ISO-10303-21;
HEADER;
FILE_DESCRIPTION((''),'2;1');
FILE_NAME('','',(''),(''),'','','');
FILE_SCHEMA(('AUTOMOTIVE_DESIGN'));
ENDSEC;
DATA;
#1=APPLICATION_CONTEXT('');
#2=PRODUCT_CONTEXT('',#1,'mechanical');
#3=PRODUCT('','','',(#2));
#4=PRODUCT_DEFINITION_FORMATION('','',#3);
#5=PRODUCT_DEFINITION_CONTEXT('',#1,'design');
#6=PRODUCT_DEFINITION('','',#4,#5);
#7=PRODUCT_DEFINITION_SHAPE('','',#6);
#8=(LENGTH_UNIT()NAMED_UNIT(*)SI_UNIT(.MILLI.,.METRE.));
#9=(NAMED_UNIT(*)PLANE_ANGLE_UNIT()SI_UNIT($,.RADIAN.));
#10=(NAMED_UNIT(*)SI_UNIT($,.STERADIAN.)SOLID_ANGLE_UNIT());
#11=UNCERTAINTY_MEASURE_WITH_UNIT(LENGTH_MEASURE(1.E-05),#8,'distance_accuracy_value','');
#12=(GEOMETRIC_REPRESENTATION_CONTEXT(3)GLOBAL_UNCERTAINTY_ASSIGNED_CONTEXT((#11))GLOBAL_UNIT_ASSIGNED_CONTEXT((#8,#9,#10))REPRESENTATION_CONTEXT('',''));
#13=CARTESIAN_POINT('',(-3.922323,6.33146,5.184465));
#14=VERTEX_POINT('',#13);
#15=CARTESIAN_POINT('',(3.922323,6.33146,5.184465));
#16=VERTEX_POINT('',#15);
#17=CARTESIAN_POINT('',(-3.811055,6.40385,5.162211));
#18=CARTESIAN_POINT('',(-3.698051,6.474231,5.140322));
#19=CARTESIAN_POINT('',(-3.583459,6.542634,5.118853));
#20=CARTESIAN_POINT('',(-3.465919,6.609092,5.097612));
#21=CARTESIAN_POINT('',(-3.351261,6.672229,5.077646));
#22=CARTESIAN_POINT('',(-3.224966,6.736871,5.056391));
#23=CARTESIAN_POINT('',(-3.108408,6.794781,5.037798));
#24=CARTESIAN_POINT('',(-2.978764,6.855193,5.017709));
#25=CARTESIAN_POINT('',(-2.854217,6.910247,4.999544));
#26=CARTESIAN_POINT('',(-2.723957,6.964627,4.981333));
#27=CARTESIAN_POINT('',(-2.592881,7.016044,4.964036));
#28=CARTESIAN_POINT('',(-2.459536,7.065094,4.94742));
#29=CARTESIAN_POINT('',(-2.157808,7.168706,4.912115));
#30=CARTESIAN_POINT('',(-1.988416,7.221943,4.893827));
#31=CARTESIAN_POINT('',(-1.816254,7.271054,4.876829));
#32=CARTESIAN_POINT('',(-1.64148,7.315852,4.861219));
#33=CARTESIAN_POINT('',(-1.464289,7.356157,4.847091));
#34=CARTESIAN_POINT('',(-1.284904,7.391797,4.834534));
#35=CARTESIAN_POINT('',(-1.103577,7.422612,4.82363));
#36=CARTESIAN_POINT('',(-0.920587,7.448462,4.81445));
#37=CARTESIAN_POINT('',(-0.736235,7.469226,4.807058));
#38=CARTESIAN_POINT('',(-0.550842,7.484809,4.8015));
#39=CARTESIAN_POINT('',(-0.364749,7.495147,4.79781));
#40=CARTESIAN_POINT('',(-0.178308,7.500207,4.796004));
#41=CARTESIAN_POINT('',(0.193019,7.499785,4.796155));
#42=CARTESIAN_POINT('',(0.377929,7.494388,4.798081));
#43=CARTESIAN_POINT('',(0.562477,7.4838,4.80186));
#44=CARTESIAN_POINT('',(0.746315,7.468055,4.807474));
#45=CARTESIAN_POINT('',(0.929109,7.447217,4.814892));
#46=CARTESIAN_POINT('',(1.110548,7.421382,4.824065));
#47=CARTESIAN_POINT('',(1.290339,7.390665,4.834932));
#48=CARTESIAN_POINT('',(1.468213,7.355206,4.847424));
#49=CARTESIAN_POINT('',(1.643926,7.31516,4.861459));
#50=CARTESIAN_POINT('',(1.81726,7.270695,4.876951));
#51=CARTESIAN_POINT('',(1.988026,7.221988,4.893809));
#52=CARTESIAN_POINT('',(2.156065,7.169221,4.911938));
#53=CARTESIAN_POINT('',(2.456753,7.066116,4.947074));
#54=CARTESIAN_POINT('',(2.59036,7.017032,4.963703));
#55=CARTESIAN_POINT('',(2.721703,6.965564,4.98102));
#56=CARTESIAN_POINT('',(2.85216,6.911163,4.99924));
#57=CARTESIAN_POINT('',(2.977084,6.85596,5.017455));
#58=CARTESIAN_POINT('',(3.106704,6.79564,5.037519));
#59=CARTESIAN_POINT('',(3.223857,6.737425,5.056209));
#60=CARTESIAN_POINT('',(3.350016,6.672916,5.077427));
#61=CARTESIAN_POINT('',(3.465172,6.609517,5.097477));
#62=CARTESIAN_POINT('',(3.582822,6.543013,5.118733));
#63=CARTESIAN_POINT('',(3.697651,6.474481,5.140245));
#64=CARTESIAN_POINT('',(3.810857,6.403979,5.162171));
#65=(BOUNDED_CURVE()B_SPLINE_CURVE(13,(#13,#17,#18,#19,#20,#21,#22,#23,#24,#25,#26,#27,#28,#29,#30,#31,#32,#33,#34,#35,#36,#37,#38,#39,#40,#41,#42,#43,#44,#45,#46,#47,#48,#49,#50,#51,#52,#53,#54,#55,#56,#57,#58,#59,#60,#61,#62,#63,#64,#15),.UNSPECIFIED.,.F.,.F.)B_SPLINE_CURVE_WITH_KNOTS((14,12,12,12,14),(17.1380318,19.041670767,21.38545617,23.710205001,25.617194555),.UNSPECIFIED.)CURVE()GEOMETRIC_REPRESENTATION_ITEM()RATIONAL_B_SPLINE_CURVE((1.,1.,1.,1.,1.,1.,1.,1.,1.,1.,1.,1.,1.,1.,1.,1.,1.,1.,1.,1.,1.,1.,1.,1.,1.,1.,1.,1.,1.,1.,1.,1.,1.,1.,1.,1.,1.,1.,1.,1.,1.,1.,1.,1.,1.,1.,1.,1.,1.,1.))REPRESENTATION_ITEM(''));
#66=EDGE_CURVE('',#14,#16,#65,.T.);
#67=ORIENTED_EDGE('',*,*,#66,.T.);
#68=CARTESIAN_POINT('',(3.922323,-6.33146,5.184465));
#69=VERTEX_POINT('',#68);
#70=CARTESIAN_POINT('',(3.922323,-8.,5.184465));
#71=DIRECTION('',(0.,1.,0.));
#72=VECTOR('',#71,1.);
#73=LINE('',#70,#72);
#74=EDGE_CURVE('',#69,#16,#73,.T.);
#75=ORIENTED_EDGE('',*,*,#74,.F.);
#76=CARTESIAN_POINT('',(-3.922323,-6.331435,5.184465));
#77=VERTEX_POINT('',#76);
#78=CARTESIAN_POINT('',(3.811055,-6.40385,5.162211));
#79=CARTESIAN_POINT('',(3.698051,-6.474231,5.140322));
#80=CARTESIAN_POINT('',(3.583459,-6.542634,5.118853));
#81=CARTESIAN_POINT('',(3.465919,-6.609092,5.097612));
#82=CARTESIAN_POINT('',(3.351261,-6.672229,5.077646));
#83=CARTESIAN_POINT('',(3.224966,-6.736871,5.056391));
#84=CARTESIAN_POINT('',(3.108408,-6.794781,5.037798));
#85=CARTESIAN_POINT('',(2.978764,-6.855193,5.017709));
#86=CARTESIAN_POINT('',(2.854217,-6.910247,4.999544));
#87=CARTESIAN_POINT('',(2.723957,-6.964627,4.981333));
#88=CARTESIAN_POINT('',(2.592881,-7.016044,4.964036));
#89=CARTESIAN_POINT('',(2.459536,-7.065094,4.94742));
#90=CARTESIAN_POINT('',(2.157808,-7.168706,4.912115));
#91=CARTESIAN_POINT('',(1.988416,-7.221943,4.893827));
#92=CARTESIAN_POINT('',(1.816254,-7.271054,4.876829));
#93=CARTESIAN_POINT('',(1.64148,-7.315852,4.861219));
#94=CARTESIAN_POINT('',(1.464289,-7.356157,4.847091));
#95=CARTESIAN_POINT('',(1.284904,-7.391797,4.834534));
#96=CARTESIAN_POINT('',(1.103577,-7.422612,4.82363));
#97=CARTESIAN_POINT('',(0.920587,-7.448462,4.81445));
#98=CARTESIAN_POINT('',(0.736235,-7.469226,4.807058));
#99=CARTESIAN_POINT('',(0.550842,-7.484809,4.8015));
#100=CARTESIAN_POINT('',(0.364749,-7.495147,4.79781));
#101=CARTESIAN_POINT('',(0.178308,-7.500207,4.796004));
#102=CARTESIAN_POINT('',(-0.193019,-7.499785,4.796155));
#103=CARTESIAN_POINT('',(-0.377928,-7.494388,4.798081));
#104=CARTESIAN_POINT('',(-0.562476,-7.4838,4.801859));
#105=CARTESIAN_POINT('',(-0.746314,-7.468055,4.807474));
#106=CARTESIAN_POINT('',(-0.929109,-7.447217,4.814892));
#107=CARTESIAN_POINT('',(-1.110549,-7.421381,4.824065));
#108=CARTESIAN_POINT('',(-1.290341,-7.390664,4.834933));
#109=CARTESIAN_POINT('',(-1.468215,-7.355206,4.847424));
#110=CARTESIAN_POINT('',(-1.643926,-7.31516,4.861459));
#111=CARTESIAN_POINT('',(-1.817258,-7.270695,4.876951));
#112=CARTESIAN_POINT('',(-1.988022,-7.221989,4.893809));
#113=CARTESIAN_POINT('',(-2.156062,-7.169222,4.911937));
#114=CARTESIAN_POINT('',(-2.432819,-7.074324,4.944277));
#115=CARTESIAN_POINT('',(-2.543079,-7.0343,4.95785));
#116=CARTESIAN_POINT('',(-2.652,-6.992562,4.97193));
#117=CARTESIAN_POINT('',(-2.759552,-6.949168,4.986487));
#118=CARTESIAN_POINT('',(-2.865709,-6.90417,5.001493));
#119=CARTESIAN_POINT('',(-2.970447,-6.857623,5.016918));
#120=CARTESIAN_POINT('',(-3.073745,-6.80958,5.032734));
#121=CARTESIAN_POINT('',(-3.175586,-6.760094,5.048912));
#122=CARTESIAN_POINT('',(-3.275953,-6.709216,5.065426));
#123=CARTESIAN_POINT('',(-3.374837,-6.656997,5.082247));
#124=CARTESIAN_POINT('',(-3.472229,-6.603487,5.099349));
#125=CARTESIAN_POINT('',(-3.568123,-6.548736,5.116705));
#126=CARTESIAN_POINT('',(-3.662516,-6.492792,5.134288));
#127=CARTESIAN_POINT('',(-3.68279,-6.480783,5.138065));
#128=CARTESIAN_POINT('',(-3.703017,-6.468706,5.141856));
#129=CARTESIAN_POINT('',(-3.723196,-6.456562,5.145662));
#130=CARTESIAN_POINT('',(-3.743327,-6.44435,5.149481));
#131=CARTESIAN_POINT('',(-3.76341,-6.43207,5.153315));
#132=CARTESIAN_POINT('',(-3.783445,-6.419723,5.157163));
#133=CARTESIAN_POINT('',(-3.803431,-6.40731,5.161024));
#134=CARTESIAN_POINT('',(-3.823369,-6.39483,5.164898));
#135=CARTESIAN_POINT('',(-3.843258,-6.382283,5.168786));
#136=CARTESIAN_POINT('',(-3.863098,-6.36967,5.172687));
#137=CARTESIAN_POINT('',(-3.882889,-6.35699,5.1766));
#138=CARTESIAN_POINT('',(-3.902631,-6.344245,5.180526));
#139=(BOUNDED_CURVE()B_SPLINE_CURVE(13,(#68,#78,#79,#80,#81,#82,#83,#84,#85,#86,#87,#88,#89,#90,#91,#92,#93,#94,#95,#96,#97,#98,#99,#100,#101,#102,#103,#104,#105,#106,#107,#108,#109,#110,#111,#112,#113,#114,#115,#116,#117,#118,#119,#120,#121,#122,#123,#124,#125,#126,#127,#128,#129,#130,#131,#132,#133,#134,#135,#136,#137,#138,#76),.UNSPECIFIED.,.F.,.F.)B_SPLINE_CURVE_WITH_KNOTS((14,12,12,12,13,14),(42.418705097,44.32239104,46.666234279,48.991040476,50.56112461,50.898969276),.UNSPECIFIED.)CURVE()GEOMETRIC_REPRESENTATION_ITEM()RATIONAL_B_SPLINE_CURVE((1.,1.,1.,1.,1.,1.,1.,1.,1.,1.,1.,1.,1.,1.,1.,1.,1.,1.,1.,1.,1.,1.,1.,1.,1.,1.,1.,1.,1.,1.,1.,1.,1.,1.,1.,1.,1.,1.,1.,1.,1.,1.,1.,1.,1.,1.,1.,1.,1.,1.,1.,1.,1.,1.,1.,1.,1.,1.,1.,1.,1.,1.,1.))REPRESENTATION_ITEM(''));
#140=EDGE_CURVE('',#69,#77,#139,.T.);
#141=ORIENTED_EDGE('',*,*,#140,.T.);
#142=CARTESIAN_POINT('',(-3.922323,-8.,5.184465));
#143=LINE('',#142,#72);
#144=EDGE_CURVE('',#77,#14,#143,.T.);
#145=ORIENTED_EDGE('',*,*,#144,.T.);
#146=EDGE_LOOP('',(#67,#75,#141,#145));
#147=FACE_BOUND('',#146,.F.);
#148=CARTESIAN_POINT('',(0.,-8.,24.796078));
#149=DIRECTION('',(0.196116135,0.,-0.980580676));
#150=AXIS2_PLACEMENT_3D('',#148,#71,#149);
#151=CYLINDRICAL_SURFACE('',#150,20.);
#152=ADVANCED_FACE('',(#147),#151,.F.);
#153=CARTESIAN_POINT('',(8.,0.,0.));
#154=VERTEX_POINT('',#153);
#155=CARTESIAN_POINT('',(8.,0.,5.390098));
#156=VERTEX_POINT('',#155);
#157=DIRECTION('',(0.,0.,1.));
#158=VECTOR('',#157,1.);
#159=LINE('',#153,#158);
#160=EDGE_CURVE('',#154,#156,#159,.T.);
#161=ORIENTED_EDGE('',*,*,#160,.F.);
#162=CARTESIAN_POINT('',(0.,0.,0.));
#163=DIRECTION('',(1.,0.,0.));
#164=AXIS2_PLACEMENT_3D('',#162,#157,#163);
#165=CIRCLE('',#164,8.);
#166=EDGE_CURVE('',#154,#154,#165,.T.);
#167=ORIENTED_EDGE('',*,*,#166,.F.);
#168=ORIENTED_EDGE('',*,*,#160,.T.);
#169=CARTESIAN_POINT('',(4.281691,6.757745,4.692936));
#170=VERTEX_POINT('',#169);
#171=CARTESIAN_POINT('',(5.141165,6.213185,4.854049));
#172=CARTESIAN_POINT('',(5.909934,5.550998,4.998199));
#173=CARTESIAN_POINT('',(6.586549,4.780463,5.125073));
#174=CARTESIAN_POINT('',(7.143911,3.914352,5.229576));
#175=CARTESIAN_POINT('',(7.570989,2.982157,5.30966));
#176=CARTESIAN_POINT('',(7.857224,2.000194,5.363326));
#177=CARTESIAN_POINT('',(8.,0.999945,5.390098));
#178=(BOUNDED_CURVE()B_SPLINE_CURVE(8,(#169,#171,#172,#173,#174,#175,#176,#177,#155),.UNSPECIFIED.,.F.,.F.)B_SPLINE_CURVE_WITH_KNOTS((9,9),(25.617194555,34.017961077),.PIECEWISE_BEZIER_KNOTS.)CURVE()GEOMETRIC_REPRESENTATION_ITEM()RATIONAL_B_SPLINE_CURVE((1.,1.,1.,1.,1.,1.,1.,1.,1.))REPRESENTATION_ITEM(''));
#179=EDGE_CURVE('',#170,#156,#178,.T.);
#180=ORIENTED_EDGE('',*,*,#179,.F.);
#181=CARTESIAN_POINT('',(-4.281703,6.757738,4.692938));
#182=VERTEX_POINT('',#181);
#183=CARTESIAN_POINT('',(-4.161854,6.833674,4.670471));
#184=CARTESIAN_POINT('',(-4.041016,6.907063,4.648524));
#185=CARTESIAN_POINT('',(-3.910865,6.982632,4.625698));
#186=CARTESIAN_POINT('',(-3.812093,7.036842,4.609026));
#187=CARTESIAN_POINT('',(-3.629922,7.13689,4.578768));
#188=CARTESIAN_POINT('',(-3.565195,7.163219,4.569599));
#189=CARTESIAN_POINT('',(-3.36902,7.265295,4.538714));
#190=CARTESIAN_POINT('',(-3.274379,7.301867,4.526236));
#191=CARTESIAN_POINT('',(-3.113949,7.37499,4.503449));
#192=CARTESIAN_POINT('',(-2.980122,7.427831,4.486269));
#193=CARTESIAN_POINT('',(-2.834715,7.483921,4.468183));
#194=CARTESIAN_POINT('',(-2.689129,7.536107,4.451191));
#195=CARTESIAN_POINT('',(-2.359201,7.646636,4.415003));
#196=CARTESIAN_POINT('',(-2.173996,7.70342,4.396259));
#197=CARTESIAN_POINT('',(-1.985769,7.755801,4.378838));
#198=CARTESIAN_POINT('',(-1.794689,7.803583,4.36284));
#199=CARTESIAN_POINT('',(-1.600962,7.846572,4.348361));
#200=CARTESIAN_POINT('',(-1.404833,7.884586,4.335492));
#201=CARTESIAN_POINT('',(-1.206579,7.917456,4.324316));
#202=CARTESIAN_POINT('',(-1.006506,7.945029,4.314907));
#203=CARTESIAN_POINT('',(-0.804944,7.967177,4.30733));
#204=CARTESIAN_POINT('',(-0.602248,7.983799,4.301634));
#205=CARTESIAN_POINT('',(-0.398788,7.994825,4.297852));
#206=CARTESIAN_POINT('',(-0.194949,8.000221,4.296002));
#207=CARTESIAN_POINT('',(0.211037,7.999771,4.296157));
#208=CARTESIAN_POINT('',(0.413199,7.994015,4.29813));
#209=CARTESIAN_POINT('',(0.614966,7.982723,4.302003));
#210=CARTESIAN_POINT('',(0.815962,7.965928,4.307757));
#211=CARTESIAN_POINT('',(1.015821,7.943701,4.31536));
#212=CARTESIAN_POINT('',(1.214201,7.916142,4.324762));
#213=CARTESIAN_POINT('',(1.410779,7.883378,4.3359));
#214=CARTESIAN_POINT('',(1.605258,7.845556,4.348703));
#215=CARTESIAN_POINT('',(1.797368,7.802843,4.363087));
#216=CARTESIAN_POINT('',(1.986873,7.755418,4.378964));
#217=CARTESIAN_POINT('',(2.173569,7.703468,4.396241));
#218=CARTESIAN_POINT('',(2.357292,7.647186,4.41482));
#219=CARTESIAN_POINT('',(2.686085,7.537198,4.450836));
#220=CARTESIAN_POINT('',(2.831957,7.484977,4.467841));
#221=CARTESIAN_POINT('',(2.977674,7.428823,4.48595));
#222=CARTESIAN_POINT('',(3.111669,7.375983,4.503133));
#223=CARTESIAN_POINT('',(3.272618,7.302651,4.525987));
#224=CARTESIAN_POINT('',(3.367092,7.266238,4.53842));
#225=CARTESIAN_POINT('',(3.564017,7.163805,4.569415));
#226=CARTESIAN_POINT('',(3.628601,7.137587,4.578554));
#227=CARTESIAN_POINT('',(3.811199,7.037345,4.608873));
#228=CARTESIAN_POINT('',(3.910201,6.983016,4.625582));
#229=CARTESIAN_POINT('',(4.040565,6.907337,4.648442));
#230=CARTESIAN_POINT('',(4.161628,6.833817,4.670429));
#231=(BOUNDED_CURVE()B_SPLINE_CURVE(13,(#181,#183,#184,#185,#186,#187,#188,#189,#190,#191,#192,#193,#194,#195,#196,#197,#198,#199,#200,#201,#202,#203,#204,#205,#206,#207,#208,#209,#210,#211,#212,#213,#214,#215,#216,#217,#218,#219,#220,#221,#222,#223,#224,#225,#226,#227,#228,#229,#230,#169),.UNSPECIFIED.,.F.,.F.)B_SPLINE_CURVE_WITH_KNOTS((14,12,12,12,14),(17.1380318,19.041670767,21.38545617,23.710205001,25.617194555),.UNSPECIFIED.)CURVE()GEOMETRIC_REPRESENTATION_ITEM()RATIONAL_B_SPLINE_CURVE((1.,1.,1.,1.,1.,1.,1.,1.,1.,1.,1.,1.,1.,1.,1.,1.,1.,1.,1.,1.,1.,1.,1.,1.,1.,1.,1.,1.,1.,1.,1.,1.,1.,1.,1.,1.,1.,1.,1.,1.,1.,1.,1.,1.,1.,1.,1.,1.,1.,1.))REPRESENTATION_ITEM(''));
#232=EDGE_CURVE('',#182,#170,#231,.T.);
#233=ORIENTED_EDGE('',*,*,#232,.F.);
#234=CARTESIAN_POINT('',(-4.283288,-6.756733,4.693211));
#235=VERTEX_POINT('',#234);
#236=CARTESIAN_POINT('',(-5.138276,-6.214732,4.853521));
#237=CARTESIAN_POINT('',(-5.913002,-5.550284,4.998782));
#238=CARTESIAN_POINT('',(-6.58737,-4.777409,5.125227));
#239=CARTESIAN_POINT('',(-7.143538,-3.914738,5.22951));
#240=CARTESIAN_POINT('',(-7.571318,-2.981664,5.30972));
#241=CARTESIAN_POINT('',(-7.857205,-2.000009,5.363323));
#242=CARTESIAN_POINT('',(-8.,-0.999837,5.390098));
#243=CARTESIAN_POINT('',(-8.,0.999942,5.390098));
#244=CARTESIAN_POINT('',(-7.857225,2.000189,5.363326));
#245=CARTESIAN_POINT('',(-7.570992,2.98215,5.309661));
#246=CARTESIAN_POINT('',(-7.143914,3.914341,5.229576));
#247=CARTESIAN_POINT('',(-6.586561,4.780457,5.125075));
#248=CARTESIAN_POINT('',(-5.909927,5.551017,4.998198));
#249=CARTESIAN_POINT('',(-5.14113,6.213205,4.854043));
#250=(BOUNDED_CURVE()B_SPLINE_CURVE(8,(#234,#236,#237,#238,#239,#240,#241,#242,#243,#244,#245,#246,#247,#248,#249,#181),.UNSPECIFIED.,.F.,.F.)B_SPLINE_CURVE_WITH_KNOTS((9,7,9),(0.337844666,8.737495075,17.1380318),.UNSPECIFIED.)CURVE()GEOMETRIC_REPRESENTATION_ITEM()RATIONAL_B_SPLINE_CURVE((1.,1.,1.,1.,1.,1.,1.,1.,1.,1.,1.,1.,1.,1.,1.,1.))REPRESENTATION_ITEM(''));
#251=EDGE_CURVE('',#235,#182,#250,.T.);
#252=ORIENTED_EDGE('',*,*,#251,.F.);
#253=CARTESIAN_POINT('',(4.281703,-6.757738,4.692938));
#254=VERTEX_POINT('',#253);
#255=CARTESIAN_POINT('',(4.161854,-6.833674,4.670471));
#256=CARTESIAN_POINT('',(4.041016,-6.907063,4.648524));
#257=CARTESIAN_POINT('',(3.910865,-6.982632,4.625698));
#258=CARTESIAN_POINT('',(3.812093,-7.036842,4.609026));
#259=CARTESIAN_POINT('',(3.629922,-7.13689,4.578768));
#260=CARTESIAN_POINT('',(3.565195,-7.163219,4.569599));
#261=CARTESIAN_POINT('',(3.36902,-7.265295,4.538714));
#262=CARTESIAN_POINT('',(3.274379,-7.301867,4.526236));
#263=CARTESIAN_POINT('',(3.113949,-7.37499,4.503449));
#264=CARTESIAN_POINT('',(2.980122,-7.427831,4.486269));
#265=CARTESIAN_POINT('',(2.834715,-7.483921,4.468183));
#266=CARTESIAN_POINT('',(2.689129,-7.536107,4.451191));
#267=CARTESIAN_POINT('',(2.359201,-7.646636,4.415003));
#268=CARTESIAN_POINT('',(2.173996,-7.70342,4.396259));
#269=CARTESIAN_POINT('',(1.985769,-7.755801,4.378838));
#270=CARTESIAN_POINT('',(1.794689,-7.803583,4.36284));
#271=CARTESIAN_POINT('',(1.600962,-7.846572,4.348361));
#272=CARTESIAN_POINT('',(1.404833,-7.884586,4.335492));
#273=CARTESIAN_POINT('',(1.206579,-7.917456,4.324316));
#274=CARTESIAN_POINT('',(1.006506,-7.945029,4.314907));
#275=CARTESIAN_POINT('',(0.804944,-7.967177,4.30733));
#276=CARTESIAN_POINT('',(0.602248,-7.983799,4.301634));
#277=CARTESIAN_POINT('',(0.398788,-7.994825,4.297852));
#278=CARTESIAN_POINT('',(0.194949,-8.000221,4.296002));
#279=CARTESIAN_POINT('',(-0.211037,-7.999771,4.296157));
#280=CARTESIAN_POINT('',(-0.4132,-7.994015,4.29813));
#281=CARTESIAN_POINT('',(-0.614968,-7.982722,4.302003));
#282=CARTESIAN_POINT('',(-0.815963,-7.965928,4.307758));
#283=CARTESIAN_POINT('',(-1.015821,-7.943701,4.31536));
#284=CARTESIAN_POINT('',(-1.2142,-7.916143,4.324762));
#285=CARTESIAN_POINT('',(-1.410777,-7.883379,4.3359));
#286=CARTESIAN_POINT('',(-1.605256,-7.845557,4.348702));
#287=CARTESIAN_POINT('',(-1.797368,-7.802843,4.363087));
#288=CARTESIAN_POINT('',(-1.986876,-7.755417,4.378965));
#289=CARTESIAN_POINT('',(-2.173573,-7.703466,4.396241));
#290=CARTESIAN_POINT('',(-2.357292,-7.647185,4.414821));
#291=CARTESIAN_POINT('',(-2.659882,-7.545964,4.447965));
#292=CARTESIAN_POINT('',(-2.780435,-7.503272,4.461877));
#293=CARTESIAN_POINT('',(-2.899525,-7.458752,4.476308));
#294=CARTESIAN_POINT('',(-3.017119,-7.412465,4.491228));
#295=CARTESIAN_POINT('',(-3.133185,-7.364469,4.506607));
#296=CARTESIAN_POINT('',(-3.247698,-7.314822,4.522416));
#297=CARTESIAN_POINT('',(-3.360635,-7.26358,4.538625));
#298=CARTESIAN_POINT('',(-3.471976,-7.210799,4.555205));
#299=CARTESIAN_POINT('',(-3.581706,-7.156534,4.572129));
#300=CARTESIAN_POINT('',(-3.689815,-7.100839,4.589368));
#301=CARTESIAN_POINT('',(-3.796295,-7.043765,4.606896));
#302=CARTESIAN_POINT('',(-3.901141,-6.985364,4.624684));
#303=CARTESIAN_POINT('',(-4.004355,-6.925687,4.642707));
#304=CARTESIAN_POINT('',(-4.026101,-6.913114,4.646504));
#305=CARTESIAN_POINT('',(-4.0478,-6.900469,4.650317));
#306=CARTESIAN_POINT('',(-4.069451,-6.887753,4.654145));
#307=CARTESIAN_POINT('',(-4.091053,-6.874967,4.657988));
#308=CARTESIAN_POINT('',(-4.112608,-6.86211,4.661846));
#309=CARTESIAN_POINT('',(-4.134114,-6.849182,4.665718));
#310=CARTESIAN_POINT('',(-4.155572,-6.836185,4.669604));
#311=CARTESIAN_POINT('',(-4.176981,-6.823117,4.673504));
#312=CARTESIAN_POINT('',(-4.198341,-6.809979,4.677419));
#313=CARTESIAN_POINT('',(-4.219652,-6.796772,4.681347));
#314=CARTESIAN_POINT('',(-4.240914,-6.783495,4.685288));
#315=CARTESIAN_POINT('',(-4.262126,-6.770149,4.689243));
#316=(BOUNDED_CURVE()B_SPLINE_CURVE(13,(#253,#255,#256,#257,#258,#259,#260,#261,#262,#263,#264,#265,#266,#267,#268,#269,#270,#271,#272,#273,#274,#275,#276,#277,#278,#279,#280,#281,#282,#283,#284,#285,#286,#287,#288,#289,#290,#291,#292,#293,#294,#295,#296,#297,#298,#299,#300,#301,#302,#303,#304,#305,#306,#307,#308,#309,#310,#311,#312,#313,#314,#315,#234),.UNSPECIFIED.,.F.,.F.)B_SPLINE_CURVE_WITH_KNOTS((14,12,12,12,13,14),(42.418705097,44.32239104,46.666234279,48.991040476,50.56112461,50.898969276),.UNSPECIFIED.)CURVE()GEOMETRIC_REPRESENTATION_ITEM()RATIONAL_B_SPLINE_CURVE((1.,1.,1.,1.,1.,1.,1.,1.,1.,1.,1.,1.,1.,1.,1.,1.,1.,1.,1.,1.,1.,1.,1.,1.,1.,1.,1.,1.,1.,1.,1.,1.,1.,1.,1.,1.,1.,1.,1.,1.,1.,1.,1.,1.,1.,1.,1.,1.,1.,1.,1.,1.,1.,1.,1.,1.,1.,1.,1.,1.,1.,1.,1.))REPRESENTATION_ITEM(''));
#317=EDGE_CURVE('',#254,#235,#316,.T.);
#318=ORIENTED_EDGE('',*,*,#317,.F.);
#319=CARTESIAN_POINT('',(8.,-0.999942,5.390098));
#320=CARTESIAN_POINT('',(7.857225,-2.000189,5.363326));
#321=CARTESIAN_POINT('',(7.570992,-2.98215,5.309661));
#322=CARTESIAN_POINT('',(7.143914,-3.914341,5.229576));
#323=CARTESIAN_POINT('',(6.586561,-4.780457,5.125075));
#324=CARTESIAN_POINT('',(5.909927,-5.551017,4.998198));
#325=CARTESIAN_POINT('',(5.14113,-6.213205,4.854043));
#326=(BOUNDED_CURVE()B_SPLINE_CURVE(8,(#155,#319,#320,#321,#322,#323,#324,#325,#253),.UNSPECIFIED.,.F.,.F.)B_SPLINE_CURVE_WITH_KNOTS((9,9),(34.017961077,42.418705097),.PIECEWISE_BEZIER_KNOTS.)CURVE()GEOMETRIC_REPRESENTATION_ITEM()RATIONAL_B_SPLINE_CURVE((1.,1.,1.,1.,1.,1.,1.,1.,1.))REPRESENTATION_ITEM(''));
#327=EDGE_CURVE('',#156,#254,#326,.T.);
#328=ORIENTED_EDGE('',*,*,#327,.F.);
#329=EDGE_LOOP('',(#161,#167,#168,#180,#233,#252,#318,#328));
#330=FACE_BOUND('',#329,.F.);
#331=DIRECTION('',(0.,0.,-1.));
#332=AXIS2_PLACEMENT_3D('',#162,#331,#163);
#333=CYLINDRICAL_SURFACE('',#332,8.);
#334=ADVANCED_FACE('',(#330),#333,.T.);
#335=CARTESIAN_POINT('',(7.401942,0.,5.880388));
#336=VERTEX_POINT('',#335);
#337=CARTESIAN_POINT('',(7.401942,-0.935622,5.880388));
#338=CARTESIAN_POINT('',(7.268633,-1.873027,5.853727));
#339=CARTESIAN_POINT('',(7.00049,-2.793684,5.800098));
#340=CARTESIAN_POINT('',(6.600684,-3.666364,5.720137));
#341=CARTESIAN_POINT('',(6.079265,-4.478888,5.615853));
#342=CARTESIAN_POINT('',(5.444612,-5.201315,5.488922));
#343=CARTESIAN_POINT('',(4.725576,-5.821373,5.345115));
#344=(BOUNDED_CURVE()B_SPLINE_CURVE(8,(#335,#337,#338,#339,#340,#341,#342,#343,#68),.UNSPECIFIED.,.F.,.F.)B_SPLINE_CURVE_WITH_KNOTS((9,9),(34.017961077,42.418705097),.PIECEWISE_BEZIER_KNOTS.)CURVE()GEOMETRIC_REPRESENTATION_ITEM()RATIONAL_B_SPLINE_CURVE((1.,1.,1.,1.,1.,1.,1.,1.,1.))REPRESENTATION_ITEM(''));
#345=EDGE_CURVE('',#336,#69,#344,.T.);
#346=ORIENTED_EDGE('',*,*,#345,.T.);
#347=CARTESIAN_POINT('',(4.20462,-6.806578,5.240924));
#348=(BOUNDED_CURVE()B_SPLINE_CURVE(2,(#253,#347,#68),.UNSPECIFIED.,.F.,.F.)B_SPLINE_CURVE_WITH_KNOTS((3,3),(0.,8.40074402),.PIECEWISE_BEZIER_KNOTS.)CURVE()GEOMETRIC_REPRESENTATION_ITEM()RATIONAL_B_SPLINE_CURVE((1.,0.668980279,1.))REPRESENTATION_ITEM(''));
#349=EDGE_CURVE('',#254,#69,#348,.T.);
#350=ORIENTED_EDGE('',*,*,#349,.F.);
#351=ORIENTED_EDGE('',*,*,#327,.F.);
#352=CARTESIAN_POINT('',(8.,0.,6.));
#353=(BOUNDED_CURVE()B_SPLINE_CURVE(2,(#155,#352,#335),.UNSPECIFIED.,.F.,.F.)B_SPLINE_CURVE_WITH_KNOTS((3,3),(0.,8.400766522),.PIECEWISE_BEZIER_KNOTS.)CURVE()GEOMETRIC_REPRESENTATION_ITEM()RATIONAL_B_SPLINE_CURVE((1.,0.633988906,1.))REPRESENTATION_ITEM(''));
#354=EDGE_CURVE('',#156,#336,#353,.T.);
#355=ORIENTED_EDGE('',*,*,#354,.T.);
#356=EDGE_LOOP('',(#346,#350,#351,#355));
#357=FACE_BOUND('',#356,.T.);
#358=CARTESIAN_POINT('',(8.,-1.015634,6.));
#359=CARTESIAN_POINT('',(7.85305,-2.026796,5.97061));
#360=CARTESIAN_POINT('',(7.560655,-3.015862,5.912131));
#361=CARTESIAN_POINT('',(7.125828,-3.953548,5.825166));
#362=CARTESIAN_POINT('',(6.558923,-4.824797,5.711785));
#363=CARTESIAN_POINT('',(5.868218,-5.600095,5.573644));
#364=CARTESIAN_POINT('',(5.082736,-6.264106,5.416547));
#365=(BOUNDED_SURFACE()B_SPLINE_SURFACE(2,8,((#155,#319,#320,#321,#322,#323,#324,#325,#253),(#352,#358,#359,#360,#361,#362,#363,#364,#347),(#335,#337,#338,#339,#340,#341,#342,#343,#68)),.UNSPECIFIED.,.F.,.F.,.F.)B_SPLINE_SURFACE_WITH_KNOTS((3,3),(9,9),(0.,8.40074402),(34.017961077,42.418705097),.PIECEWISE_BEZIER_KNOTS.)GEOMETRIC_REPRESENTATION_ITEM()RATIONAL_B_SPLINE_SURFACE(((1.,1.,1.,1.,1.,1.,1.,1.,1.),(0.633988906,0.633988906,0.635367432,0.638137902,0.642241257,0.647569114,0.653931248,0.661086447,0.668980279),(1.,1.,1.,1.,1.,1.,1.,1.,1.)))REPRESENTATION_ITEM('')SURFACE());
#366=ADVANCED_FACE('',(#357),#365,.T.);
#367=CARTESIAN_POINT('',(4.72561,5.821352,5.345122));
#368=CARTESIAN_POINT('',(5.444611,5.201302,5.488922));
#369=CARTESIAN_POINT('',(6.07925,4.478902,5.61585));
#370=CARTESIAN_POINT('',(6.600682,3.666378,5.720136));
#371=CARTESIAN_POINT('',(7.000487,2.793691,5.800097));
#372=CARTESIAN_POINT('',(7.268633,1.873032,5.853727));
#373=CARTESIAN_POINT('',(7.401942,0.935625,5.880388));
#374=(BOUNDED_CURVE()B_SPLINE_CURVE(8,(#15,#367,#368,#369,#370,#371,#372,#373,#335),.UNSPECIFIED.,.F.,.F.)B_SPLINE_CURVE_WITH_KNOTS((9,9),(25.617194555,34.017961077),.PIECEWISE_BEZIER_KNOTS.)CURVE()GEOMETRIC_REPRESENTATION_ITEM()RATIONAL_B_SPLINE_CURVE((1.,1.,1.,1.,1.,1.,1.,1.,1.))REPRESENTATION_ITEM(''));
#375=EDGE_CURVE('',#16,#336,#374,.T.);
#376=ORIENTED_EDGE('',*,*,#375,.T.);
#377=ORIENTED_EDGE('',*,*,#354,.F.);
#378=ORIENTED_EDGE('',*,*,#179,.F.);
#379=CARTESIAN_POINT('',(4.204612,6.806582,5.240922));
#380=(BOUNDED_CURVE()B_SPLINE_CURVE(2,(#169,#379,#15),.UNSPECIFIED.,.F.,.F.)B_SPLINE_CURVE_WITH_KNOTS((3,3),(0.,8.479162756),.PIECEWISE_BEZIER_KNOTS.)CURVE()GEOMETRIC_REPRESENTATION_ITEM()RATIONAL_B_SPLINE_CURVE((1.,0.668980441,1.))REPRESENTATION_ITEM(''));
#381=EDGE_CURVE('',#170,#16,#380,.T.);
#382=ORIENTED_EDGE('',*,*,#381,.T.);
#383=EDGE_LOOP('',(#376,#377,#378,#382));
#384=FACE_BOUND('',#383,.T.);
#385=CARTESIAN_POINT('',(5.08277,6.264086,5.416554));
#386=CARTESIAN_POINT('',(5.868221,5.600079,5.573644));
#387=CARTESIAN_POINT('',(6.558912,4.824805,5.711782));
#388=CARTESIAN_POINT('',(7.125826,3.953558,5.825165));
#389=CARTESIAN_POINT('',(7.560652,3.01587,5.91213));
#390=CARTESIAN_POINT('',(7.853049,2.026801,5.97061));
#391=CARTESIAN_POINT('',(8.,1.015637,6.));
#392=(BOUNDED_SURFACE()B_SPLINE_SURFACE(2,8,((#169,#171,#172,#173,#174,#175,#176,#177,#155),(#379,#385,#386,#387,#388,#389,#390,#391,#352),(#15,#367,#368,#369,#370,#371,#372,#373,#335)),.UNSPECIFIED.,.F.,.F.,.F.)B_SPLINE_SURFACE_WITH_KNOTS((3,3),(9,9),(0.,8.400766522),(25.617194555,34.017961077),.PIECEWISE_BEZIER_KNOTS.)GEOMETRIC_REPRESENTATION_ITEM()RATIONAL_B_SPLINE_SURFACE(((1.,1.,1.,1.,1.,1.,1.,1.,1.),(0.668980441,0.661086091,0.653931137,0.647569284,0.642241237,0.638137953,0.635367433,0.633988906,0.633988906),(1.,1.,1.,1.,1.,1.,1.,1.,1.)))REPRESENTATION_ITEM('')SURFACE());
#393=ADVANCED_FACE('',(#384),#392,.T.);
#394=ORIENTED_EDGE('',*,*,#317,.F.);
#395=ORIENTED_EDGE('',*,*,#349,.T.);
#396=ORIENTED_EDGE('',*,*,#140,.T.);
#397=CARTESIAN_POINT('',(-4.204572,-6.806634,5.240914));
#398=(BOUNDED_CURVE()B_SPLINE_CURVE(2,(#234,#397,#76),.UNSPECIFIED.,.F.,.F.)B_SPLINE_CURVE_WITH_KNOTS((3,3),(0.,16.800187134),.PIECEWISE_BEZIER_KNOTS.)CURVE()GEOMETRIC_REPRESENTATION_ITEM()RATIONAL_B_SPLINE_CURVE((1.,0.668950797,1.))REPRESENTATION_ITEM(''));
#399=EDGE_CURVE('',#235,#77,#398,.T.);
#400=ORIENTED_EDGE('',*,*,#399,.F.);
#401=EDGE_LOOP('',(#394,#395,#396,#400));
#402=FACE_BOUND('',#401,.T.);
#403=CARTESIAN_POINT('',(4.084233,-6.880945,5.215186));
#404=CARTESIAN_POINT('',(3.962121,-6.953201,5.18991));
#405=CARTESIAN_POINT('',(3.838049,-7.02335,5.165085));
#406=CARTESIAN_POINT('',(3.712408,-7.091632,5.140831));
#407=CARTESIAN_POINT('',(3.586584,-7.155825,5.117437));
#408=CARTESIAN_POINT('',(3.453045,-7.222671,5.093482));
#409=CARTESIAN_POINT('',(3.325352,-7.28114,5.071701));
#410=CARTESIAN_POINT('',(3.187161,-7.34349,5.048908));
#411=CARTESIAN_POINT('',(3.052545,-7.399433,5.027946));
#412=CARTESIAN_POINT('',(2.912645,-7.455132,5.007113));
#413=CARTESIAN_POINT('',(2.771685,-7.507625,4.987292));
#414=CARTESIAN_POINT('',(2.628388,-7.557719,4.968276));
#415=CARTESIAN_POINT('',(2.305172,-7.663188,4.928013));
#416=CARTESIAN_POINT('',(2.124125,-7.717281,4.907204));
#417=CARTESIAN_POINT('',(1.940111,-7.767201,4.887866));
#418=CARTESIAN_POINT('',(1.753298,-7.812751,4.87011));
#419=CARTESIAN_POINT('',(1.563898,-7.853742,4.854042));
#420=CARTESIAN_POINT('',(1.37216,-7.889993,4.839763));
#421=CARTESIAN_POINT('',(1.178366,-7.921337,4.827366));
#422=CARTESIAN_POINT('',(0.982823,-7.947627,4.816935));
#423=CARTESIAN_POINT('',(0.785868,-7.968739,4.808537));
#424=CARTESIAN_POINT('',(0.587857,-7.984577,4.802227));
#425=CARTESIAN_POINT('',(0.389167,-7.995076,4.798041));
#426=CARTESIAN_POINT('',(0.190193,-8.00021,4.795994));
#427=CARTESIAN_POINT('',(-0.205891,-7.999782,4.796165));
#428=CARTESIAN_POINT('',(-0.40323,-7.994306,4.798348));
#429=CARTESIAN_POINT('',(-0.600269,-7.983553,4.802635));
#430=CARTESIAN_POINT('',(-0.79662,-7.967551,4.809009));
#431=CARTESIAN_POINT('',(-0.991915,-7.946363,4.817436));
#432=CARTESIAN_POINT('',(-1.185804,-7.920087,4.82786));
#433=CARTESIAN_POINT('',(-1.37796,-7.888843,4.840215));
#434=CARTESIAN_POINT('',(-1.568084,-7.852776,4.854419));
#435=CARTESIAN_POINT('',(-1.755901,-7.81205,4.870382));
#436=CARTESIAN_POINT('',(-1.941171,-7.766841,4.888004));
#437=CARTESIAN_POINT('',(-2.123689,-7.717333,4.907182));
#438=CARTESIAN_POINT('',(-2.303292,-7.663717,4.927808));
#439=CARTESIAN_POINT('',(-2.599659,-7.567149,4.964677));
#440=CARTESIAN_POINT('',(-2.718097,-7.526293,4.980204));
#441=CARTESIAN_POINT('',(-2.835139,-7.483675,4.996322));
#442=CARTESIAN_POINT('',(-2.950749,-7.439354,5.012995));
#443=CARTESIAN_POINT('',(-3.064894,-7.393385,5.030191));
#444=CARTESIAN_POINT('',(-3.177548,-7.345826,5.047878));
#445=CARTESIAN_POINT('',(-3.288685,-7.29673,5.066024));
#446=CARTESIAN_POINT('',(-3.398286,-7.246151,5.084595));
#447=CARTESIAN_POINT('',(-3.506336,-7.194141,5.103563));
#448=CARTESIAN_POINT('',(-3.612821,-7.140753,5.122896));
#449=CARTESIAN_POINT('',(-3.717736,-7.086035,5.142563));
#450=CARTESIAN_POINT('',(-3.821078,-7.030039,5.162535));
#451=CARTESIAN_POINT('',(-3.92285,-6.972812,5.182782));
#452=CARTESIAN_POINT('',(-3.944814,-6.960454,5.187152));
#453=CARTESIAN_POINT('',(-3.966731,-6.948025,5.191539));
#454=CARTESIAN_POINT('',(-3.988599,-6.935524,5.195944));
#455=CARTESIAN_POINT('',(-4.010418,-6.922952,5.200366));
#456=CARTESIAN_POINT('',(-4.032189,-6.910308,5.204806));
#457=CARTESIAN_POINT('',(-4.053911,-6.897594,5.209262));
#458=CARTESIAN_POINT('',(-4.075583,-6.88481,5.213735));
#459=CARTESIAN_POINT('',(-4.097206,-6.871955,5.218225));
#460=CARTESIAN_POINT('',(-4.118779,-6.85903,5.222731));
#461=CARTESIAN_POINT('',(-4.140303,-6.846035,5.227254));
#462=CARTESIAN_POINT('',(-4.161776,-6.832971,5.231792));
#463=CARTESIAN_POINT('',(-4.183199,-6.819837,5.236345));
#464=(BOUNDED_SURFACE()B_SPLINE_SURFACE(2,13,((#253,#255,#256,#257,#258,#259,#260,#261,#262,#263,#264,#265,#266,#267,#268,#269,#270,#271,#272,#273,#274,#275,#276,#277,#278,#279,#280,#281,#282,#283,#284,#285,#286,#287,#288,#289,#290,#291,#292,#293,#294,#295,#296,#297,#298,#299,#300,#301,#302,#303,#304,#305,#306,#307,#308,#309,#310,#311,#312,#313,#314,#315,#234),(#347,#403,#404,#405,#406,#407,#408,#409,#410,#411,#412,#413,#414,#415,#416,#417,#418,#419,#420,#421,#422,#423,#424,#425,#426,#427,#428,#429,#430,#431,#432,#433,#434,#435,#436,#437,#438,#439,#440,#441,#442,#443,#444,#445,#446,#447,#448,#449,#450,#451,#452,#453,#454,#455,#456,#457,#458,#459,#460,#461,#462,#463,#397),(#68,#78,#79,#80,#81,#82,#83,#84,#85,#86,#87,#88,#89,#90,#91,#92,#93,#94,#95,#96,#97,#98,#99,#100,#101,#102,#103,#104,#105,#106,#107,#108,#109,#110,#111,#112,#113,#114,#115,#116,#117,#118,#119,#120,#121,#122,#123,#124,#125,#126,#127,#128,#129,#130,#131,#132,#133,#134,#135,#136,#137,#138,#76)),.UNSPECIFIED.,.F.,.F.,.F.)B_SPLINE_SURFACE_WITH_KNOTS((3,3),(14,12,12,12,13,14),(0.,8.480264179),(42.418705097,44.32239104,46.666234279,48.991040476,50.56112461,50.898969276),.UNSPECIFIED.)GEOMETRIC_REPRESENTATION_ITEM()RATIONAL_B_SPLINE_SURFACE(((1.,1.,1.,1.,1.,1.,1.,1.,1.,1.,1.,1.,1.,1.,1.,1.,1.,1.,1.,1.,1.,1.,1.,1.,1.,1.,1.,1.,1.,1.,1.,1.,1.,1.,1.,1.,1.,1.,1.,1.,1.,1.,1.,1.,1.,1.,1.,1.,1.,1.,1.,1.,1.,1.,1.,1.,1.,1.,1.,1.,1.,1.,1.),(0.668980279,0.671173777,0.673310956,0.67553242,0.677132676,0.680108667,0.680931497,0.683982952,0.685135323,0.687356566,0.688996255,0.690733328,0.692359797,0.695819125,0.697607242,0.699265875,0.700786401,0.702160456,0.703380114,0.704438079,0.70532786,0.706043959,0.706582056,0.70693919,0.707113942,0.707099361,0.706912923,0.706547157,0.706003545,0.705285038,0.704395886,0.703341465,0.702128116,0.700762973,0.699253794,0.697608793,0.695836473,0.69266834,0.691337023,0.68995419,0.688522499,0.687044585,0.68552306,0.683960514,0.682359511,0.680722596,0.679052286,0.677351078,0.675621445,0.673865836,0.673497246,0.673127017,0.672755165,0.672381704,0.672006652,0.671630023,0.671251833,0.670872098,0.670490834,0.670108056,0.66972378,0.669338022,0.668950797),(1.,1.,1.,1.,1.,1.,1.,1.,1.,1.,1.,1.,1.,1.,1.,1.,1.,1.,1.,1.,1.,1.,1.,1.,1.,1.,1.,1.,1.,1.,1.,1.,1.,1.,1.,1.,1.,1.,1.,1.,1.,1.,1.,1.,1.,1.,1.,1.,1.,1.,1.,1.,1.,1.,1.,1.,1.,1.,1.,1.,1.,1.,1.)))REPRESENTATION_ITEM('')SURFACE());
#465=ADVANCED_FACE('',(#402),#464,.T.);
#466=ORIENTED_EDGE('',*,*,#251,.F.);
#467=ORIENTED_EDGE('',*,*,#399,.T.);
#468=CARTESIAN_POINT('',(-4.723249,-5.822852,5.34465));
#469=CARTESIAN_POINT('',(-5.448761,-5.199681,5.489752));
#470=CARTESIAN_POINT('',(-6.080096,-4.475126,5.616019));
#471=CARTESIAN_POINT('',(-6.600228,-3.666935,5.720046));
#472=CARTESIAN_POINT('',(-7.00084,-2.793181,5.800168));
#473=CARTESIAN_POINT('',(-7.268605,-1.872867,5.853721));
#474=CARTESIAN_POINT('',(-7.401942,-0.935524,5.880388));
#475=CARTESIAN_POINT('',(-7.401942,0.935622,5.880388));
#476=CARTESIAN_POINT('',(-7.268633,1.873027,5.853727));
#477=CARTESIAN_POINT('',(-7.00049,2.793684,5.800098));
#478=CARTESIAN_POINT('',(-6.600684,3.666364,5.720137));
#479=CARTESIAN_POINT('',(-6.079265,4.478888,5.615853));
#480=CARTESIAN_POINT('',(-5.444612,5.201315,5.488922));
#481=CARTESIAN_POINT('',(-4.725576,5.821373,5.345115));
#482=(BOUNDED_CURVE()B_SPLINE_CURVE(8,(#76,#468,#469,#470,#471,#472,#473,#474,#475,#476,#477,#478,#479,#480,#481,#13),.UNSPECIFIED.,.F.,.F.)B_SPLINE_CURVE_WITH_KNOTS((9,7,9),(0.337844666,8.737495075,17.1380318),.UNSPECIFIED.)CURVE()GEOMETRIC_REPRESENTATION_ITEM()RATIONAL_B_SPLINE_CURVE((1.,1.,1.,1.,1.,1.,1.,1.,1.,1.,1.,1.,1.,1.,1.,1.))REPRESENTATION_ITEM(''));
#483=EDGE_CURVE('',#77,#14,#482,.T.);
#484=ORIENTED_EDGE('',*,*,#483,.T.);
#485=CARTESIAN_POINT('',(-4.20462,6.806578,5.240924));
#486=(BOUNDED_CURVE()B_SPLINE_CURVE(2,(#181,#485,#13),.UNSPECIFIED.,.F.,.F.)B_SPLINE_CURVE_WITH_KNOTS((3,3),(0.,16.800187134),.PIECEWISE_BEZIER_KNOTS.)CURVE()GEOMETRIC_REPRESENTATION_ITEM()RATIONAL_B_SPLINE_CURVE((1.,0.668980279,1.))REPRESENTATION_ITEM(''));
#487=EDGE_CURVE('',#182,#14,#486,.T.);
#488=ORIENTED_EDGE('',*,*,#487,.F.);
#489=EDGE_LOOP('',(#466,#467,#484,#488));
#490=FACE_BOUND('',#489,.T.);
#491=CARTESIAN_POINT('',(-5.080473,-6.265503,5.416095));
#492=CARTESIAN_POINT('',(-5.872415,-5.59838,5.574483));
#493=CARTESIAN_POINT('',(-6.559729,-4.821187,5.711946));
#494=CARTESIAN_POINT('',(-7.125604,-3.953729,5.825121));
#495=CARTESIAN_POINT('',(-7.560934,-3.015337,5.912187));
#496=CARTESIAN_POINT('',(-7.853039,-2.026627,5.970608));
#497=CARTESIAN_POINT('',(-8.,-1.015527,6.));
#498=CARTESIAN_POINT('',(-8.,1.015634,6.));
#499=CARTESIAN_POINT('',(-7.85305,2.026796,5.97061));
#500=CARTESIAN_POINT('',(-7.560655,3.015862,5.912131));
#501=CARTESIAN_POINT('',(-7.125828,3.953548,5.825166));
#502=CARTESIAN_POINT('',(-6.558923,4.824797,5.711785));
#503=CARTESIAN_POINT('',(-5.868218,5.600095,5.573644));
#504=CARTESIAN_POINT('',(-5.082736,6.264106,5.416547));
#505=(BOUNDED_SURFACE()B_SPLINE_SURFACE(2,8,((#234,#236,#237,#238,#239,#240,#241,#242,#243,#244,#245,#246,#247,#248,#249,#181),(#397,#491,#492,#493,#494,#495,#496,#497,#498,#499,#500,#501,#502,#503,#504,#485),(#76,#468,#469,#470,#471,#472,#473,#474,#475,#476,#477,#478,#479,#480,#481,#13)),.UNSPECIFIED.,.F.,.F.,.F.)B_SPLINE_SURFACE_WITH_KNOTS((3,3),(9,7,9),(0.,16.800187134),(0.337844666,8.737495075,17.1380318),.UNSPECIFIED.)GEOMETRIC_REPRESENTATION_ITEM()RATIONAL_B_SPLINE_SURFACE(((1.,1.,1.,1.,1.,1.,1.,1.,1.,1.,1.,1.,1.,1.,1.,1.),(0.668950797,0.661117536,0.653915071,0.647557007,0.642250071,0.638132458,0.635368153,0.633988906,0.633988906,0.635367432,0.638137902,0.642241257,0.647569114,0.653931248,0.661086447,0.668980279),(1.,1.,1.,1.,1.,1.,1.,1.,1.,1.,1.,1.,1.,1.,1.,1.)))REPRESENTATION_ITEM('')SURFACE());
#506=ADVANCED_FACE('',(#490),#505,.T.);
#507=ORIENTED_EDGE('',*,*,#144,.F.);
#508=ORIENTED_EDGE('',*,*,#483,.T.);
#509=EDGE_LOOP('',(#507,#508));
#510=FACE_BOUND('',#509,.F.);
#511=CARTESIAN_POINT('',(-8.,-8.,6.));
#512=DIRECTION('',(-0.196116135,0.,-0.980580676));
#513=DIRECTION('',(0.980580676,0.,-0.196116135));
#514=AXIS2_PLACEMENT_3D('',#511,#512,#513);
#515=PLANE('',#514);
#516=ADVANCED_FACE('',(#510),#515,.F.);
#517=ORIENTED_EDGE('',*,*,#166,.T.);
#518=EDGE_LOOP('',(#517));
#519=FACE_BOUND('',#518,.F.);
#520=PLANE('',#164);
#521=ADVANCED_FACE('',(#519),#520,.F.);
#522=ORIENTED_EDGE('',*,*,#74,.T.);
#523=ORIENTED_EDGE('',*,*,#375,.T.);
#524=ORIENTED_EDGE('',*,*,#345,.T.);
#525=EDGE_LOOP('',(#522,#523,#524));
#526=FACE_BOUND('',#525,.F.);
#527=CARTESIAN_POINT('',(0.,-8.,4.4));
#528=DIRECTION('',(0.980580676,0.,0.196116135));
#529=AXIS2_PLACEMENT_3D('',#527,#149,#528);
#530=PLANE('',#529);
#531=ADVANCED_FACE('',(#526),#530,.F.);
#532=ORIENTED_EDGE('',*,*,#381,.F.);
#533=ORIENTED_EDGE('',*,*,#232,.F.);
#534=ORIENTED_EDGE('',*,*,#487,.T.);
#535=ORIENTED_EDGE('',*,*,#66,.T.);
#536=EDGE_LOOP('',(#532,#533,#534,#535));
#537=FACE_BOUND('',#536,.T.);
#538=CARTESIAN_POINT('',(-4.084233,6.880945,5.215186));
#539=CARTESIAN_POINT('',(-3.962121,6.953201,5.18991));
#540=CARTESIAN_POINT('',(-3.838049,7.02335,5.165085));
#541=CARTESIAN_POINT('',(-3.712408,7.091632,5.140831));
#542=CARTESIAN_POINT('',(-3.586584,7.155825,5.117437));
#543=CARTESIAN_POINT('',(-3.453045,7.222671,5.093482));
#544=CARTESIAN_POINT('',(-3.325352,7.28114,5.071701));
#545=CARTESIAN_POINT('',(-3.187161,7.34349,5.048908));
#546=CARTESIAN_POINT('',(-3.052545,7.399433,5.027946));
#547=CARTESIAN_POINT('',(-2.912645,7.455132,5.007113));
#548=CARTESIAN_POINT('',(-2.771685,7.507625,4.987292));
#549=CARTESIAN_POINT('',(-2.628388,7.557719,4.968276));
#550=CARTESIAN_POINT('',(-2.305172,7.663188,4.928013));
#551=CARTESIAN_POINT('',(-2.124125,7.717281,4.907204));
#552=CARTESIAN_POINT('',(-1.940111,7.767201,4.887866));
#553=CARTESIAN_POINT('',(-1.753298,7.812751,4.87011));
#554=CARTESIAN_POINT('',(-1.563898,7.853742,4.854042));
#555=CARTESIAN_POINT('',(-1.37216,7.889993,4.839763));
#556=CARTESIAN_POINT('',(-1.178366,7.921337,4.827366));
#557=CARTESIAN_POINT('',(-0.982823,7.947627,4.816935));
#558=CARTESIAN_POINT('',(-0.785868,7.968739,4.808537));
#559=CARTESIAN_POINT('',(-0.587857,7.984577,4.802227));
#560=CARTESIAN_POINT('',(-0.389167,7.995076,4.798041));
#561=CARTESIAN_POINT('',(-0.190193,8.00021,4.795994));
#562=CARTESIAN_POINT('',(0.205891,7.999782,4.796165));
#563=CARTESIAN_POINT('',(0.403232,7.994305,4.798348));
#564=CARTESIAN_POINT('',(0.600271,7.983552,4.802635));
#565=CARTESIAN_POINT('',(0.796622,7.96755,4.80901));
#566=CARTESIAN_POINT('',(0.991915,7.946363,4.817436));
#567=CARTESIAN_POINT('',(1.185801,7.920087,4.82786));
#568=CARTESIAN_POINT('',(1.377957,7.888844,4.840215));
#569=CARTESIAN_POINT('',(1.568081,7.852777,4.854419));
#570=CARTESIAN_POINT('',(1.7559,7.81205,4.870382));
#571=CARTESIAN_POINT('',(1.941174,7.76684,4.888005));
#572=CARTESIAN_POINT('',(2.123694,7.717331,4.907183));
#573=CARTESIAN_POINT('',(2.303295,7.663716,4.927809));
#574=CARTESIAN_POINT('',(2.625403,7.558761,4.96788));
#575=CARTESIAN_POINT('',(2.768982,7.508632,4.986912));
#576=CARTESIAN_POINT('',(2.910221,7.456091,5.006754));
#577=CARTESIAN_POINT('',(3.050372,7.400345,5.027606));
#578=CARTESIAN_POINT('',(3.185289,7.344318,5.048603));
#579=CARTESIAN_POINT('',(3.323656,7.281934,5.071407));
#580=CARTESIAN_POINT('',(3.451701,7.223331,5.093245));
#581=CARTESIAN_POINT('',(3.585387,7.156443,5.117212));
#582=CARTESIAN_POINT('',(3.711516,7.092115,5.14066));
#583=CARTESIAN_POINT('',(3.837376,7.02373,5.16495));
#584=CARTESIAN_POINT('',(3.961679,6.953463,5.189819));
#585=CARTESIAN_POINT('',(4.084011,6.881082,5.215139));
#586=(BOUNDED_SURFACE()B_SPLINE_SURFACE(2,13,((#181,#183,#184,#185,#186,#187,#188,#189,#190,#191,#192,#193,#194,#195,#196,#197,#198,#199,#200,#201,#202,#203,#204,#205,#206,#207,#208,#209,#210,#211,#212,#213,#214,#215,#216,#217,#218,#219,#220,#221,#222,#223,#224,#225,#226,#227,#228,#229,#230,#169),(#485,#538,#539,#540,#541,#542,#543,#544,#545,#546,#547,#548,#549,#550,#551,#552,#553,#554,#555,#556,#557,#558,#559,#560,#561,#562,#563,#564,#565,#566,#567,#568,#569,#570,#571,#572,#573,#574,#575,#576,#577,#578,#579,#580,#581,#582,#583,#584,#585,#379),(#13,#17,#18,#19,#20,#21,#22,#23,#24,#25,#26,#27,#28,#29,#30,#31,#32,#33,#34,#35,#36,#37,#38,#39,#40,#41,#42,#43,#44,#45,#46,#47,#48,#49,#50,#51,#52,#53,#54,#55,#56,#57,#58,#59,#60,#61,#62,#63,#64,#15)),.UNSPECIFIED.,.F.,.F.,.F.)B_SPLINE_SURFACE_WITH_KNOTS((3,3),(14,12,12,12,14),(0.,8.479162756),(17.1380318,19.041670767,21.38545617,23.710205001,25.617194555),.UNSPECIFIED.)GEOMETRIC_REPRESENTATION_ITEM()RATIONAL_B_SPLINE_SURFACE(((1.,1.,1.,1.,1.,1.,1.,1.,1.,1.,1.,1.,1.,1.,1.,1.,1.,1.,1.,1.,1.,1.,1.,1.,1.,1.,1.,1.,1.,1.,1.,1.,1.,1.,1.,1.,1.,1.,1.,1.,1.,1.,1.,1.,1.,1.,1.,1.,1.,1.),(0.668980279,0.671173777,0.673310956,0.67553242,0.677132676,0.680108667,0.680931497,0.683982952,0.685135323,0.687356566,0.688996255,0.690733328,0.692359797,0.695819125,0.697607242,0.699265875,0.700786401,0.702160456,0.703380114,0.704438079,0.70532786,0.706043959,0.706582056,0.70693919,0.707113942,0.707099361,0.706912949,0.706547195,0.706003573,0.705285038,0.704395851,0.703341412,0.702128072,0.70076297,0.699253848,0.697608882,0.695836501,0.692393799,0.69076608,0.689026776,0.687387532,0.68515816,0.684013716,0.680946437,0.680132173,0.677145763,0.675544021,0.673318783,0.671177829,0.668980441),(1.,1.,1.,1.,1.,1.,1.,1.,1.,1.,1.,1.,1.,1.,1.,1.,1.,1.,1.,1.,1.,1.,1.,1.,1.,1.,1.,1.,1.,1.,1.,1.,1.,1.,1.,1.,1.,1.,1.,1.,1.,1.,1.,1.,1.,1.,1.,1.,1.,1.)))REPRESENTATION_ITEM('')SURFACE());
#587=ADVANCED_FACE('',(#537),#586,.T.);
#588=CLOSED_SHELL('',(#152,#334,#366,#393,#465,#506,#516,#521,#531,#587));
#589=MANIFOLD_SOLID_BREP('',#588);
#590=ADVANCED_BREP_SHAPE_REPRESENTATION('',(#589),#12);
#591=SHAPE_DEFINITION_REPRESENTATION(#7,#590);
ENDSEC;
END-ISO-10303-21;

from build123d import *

# Parameters (mm, degrees)
F0_R     = 8
F1_DEPTH = 6
F4_DEPTH = 16.001
F5_R     = 20
F6_R     = 0.5


with BuildPart() as f1:
    # F0 (on Top) → F1 (new body)
    with BuildSketch(Plane.XY):
        Circle(F0_R)
    extrude(amount=F1_DEPTH)

    # F3 (on offset) → F4 (cut, through all)
    with BuildSketch(Plane.XZ.offset(8)):
        Polygon((8, 6), (-8, 6), (0, 4.4), align=None)
    extrude(amount=-F4_DEPTH, mode=Mode.SUBTRACT)

    # F5
    f5_edges = [f1.edges().sort_by_distance(p)[0] for p in [
        (0, 0, 4.4),
    ]]
    fillet(f5_edges, radius=F5_R)

    # F6
    f6_edges = [f1.edges().sort_by_distance(p)[0] for p in [
        (-6.896857, -4.053808, 5.779371),
        (-6.896857, 4.053808, 5.779371),
    ]]
    fillet(f6_edges, radius=F6_R)


solid = f1.part
